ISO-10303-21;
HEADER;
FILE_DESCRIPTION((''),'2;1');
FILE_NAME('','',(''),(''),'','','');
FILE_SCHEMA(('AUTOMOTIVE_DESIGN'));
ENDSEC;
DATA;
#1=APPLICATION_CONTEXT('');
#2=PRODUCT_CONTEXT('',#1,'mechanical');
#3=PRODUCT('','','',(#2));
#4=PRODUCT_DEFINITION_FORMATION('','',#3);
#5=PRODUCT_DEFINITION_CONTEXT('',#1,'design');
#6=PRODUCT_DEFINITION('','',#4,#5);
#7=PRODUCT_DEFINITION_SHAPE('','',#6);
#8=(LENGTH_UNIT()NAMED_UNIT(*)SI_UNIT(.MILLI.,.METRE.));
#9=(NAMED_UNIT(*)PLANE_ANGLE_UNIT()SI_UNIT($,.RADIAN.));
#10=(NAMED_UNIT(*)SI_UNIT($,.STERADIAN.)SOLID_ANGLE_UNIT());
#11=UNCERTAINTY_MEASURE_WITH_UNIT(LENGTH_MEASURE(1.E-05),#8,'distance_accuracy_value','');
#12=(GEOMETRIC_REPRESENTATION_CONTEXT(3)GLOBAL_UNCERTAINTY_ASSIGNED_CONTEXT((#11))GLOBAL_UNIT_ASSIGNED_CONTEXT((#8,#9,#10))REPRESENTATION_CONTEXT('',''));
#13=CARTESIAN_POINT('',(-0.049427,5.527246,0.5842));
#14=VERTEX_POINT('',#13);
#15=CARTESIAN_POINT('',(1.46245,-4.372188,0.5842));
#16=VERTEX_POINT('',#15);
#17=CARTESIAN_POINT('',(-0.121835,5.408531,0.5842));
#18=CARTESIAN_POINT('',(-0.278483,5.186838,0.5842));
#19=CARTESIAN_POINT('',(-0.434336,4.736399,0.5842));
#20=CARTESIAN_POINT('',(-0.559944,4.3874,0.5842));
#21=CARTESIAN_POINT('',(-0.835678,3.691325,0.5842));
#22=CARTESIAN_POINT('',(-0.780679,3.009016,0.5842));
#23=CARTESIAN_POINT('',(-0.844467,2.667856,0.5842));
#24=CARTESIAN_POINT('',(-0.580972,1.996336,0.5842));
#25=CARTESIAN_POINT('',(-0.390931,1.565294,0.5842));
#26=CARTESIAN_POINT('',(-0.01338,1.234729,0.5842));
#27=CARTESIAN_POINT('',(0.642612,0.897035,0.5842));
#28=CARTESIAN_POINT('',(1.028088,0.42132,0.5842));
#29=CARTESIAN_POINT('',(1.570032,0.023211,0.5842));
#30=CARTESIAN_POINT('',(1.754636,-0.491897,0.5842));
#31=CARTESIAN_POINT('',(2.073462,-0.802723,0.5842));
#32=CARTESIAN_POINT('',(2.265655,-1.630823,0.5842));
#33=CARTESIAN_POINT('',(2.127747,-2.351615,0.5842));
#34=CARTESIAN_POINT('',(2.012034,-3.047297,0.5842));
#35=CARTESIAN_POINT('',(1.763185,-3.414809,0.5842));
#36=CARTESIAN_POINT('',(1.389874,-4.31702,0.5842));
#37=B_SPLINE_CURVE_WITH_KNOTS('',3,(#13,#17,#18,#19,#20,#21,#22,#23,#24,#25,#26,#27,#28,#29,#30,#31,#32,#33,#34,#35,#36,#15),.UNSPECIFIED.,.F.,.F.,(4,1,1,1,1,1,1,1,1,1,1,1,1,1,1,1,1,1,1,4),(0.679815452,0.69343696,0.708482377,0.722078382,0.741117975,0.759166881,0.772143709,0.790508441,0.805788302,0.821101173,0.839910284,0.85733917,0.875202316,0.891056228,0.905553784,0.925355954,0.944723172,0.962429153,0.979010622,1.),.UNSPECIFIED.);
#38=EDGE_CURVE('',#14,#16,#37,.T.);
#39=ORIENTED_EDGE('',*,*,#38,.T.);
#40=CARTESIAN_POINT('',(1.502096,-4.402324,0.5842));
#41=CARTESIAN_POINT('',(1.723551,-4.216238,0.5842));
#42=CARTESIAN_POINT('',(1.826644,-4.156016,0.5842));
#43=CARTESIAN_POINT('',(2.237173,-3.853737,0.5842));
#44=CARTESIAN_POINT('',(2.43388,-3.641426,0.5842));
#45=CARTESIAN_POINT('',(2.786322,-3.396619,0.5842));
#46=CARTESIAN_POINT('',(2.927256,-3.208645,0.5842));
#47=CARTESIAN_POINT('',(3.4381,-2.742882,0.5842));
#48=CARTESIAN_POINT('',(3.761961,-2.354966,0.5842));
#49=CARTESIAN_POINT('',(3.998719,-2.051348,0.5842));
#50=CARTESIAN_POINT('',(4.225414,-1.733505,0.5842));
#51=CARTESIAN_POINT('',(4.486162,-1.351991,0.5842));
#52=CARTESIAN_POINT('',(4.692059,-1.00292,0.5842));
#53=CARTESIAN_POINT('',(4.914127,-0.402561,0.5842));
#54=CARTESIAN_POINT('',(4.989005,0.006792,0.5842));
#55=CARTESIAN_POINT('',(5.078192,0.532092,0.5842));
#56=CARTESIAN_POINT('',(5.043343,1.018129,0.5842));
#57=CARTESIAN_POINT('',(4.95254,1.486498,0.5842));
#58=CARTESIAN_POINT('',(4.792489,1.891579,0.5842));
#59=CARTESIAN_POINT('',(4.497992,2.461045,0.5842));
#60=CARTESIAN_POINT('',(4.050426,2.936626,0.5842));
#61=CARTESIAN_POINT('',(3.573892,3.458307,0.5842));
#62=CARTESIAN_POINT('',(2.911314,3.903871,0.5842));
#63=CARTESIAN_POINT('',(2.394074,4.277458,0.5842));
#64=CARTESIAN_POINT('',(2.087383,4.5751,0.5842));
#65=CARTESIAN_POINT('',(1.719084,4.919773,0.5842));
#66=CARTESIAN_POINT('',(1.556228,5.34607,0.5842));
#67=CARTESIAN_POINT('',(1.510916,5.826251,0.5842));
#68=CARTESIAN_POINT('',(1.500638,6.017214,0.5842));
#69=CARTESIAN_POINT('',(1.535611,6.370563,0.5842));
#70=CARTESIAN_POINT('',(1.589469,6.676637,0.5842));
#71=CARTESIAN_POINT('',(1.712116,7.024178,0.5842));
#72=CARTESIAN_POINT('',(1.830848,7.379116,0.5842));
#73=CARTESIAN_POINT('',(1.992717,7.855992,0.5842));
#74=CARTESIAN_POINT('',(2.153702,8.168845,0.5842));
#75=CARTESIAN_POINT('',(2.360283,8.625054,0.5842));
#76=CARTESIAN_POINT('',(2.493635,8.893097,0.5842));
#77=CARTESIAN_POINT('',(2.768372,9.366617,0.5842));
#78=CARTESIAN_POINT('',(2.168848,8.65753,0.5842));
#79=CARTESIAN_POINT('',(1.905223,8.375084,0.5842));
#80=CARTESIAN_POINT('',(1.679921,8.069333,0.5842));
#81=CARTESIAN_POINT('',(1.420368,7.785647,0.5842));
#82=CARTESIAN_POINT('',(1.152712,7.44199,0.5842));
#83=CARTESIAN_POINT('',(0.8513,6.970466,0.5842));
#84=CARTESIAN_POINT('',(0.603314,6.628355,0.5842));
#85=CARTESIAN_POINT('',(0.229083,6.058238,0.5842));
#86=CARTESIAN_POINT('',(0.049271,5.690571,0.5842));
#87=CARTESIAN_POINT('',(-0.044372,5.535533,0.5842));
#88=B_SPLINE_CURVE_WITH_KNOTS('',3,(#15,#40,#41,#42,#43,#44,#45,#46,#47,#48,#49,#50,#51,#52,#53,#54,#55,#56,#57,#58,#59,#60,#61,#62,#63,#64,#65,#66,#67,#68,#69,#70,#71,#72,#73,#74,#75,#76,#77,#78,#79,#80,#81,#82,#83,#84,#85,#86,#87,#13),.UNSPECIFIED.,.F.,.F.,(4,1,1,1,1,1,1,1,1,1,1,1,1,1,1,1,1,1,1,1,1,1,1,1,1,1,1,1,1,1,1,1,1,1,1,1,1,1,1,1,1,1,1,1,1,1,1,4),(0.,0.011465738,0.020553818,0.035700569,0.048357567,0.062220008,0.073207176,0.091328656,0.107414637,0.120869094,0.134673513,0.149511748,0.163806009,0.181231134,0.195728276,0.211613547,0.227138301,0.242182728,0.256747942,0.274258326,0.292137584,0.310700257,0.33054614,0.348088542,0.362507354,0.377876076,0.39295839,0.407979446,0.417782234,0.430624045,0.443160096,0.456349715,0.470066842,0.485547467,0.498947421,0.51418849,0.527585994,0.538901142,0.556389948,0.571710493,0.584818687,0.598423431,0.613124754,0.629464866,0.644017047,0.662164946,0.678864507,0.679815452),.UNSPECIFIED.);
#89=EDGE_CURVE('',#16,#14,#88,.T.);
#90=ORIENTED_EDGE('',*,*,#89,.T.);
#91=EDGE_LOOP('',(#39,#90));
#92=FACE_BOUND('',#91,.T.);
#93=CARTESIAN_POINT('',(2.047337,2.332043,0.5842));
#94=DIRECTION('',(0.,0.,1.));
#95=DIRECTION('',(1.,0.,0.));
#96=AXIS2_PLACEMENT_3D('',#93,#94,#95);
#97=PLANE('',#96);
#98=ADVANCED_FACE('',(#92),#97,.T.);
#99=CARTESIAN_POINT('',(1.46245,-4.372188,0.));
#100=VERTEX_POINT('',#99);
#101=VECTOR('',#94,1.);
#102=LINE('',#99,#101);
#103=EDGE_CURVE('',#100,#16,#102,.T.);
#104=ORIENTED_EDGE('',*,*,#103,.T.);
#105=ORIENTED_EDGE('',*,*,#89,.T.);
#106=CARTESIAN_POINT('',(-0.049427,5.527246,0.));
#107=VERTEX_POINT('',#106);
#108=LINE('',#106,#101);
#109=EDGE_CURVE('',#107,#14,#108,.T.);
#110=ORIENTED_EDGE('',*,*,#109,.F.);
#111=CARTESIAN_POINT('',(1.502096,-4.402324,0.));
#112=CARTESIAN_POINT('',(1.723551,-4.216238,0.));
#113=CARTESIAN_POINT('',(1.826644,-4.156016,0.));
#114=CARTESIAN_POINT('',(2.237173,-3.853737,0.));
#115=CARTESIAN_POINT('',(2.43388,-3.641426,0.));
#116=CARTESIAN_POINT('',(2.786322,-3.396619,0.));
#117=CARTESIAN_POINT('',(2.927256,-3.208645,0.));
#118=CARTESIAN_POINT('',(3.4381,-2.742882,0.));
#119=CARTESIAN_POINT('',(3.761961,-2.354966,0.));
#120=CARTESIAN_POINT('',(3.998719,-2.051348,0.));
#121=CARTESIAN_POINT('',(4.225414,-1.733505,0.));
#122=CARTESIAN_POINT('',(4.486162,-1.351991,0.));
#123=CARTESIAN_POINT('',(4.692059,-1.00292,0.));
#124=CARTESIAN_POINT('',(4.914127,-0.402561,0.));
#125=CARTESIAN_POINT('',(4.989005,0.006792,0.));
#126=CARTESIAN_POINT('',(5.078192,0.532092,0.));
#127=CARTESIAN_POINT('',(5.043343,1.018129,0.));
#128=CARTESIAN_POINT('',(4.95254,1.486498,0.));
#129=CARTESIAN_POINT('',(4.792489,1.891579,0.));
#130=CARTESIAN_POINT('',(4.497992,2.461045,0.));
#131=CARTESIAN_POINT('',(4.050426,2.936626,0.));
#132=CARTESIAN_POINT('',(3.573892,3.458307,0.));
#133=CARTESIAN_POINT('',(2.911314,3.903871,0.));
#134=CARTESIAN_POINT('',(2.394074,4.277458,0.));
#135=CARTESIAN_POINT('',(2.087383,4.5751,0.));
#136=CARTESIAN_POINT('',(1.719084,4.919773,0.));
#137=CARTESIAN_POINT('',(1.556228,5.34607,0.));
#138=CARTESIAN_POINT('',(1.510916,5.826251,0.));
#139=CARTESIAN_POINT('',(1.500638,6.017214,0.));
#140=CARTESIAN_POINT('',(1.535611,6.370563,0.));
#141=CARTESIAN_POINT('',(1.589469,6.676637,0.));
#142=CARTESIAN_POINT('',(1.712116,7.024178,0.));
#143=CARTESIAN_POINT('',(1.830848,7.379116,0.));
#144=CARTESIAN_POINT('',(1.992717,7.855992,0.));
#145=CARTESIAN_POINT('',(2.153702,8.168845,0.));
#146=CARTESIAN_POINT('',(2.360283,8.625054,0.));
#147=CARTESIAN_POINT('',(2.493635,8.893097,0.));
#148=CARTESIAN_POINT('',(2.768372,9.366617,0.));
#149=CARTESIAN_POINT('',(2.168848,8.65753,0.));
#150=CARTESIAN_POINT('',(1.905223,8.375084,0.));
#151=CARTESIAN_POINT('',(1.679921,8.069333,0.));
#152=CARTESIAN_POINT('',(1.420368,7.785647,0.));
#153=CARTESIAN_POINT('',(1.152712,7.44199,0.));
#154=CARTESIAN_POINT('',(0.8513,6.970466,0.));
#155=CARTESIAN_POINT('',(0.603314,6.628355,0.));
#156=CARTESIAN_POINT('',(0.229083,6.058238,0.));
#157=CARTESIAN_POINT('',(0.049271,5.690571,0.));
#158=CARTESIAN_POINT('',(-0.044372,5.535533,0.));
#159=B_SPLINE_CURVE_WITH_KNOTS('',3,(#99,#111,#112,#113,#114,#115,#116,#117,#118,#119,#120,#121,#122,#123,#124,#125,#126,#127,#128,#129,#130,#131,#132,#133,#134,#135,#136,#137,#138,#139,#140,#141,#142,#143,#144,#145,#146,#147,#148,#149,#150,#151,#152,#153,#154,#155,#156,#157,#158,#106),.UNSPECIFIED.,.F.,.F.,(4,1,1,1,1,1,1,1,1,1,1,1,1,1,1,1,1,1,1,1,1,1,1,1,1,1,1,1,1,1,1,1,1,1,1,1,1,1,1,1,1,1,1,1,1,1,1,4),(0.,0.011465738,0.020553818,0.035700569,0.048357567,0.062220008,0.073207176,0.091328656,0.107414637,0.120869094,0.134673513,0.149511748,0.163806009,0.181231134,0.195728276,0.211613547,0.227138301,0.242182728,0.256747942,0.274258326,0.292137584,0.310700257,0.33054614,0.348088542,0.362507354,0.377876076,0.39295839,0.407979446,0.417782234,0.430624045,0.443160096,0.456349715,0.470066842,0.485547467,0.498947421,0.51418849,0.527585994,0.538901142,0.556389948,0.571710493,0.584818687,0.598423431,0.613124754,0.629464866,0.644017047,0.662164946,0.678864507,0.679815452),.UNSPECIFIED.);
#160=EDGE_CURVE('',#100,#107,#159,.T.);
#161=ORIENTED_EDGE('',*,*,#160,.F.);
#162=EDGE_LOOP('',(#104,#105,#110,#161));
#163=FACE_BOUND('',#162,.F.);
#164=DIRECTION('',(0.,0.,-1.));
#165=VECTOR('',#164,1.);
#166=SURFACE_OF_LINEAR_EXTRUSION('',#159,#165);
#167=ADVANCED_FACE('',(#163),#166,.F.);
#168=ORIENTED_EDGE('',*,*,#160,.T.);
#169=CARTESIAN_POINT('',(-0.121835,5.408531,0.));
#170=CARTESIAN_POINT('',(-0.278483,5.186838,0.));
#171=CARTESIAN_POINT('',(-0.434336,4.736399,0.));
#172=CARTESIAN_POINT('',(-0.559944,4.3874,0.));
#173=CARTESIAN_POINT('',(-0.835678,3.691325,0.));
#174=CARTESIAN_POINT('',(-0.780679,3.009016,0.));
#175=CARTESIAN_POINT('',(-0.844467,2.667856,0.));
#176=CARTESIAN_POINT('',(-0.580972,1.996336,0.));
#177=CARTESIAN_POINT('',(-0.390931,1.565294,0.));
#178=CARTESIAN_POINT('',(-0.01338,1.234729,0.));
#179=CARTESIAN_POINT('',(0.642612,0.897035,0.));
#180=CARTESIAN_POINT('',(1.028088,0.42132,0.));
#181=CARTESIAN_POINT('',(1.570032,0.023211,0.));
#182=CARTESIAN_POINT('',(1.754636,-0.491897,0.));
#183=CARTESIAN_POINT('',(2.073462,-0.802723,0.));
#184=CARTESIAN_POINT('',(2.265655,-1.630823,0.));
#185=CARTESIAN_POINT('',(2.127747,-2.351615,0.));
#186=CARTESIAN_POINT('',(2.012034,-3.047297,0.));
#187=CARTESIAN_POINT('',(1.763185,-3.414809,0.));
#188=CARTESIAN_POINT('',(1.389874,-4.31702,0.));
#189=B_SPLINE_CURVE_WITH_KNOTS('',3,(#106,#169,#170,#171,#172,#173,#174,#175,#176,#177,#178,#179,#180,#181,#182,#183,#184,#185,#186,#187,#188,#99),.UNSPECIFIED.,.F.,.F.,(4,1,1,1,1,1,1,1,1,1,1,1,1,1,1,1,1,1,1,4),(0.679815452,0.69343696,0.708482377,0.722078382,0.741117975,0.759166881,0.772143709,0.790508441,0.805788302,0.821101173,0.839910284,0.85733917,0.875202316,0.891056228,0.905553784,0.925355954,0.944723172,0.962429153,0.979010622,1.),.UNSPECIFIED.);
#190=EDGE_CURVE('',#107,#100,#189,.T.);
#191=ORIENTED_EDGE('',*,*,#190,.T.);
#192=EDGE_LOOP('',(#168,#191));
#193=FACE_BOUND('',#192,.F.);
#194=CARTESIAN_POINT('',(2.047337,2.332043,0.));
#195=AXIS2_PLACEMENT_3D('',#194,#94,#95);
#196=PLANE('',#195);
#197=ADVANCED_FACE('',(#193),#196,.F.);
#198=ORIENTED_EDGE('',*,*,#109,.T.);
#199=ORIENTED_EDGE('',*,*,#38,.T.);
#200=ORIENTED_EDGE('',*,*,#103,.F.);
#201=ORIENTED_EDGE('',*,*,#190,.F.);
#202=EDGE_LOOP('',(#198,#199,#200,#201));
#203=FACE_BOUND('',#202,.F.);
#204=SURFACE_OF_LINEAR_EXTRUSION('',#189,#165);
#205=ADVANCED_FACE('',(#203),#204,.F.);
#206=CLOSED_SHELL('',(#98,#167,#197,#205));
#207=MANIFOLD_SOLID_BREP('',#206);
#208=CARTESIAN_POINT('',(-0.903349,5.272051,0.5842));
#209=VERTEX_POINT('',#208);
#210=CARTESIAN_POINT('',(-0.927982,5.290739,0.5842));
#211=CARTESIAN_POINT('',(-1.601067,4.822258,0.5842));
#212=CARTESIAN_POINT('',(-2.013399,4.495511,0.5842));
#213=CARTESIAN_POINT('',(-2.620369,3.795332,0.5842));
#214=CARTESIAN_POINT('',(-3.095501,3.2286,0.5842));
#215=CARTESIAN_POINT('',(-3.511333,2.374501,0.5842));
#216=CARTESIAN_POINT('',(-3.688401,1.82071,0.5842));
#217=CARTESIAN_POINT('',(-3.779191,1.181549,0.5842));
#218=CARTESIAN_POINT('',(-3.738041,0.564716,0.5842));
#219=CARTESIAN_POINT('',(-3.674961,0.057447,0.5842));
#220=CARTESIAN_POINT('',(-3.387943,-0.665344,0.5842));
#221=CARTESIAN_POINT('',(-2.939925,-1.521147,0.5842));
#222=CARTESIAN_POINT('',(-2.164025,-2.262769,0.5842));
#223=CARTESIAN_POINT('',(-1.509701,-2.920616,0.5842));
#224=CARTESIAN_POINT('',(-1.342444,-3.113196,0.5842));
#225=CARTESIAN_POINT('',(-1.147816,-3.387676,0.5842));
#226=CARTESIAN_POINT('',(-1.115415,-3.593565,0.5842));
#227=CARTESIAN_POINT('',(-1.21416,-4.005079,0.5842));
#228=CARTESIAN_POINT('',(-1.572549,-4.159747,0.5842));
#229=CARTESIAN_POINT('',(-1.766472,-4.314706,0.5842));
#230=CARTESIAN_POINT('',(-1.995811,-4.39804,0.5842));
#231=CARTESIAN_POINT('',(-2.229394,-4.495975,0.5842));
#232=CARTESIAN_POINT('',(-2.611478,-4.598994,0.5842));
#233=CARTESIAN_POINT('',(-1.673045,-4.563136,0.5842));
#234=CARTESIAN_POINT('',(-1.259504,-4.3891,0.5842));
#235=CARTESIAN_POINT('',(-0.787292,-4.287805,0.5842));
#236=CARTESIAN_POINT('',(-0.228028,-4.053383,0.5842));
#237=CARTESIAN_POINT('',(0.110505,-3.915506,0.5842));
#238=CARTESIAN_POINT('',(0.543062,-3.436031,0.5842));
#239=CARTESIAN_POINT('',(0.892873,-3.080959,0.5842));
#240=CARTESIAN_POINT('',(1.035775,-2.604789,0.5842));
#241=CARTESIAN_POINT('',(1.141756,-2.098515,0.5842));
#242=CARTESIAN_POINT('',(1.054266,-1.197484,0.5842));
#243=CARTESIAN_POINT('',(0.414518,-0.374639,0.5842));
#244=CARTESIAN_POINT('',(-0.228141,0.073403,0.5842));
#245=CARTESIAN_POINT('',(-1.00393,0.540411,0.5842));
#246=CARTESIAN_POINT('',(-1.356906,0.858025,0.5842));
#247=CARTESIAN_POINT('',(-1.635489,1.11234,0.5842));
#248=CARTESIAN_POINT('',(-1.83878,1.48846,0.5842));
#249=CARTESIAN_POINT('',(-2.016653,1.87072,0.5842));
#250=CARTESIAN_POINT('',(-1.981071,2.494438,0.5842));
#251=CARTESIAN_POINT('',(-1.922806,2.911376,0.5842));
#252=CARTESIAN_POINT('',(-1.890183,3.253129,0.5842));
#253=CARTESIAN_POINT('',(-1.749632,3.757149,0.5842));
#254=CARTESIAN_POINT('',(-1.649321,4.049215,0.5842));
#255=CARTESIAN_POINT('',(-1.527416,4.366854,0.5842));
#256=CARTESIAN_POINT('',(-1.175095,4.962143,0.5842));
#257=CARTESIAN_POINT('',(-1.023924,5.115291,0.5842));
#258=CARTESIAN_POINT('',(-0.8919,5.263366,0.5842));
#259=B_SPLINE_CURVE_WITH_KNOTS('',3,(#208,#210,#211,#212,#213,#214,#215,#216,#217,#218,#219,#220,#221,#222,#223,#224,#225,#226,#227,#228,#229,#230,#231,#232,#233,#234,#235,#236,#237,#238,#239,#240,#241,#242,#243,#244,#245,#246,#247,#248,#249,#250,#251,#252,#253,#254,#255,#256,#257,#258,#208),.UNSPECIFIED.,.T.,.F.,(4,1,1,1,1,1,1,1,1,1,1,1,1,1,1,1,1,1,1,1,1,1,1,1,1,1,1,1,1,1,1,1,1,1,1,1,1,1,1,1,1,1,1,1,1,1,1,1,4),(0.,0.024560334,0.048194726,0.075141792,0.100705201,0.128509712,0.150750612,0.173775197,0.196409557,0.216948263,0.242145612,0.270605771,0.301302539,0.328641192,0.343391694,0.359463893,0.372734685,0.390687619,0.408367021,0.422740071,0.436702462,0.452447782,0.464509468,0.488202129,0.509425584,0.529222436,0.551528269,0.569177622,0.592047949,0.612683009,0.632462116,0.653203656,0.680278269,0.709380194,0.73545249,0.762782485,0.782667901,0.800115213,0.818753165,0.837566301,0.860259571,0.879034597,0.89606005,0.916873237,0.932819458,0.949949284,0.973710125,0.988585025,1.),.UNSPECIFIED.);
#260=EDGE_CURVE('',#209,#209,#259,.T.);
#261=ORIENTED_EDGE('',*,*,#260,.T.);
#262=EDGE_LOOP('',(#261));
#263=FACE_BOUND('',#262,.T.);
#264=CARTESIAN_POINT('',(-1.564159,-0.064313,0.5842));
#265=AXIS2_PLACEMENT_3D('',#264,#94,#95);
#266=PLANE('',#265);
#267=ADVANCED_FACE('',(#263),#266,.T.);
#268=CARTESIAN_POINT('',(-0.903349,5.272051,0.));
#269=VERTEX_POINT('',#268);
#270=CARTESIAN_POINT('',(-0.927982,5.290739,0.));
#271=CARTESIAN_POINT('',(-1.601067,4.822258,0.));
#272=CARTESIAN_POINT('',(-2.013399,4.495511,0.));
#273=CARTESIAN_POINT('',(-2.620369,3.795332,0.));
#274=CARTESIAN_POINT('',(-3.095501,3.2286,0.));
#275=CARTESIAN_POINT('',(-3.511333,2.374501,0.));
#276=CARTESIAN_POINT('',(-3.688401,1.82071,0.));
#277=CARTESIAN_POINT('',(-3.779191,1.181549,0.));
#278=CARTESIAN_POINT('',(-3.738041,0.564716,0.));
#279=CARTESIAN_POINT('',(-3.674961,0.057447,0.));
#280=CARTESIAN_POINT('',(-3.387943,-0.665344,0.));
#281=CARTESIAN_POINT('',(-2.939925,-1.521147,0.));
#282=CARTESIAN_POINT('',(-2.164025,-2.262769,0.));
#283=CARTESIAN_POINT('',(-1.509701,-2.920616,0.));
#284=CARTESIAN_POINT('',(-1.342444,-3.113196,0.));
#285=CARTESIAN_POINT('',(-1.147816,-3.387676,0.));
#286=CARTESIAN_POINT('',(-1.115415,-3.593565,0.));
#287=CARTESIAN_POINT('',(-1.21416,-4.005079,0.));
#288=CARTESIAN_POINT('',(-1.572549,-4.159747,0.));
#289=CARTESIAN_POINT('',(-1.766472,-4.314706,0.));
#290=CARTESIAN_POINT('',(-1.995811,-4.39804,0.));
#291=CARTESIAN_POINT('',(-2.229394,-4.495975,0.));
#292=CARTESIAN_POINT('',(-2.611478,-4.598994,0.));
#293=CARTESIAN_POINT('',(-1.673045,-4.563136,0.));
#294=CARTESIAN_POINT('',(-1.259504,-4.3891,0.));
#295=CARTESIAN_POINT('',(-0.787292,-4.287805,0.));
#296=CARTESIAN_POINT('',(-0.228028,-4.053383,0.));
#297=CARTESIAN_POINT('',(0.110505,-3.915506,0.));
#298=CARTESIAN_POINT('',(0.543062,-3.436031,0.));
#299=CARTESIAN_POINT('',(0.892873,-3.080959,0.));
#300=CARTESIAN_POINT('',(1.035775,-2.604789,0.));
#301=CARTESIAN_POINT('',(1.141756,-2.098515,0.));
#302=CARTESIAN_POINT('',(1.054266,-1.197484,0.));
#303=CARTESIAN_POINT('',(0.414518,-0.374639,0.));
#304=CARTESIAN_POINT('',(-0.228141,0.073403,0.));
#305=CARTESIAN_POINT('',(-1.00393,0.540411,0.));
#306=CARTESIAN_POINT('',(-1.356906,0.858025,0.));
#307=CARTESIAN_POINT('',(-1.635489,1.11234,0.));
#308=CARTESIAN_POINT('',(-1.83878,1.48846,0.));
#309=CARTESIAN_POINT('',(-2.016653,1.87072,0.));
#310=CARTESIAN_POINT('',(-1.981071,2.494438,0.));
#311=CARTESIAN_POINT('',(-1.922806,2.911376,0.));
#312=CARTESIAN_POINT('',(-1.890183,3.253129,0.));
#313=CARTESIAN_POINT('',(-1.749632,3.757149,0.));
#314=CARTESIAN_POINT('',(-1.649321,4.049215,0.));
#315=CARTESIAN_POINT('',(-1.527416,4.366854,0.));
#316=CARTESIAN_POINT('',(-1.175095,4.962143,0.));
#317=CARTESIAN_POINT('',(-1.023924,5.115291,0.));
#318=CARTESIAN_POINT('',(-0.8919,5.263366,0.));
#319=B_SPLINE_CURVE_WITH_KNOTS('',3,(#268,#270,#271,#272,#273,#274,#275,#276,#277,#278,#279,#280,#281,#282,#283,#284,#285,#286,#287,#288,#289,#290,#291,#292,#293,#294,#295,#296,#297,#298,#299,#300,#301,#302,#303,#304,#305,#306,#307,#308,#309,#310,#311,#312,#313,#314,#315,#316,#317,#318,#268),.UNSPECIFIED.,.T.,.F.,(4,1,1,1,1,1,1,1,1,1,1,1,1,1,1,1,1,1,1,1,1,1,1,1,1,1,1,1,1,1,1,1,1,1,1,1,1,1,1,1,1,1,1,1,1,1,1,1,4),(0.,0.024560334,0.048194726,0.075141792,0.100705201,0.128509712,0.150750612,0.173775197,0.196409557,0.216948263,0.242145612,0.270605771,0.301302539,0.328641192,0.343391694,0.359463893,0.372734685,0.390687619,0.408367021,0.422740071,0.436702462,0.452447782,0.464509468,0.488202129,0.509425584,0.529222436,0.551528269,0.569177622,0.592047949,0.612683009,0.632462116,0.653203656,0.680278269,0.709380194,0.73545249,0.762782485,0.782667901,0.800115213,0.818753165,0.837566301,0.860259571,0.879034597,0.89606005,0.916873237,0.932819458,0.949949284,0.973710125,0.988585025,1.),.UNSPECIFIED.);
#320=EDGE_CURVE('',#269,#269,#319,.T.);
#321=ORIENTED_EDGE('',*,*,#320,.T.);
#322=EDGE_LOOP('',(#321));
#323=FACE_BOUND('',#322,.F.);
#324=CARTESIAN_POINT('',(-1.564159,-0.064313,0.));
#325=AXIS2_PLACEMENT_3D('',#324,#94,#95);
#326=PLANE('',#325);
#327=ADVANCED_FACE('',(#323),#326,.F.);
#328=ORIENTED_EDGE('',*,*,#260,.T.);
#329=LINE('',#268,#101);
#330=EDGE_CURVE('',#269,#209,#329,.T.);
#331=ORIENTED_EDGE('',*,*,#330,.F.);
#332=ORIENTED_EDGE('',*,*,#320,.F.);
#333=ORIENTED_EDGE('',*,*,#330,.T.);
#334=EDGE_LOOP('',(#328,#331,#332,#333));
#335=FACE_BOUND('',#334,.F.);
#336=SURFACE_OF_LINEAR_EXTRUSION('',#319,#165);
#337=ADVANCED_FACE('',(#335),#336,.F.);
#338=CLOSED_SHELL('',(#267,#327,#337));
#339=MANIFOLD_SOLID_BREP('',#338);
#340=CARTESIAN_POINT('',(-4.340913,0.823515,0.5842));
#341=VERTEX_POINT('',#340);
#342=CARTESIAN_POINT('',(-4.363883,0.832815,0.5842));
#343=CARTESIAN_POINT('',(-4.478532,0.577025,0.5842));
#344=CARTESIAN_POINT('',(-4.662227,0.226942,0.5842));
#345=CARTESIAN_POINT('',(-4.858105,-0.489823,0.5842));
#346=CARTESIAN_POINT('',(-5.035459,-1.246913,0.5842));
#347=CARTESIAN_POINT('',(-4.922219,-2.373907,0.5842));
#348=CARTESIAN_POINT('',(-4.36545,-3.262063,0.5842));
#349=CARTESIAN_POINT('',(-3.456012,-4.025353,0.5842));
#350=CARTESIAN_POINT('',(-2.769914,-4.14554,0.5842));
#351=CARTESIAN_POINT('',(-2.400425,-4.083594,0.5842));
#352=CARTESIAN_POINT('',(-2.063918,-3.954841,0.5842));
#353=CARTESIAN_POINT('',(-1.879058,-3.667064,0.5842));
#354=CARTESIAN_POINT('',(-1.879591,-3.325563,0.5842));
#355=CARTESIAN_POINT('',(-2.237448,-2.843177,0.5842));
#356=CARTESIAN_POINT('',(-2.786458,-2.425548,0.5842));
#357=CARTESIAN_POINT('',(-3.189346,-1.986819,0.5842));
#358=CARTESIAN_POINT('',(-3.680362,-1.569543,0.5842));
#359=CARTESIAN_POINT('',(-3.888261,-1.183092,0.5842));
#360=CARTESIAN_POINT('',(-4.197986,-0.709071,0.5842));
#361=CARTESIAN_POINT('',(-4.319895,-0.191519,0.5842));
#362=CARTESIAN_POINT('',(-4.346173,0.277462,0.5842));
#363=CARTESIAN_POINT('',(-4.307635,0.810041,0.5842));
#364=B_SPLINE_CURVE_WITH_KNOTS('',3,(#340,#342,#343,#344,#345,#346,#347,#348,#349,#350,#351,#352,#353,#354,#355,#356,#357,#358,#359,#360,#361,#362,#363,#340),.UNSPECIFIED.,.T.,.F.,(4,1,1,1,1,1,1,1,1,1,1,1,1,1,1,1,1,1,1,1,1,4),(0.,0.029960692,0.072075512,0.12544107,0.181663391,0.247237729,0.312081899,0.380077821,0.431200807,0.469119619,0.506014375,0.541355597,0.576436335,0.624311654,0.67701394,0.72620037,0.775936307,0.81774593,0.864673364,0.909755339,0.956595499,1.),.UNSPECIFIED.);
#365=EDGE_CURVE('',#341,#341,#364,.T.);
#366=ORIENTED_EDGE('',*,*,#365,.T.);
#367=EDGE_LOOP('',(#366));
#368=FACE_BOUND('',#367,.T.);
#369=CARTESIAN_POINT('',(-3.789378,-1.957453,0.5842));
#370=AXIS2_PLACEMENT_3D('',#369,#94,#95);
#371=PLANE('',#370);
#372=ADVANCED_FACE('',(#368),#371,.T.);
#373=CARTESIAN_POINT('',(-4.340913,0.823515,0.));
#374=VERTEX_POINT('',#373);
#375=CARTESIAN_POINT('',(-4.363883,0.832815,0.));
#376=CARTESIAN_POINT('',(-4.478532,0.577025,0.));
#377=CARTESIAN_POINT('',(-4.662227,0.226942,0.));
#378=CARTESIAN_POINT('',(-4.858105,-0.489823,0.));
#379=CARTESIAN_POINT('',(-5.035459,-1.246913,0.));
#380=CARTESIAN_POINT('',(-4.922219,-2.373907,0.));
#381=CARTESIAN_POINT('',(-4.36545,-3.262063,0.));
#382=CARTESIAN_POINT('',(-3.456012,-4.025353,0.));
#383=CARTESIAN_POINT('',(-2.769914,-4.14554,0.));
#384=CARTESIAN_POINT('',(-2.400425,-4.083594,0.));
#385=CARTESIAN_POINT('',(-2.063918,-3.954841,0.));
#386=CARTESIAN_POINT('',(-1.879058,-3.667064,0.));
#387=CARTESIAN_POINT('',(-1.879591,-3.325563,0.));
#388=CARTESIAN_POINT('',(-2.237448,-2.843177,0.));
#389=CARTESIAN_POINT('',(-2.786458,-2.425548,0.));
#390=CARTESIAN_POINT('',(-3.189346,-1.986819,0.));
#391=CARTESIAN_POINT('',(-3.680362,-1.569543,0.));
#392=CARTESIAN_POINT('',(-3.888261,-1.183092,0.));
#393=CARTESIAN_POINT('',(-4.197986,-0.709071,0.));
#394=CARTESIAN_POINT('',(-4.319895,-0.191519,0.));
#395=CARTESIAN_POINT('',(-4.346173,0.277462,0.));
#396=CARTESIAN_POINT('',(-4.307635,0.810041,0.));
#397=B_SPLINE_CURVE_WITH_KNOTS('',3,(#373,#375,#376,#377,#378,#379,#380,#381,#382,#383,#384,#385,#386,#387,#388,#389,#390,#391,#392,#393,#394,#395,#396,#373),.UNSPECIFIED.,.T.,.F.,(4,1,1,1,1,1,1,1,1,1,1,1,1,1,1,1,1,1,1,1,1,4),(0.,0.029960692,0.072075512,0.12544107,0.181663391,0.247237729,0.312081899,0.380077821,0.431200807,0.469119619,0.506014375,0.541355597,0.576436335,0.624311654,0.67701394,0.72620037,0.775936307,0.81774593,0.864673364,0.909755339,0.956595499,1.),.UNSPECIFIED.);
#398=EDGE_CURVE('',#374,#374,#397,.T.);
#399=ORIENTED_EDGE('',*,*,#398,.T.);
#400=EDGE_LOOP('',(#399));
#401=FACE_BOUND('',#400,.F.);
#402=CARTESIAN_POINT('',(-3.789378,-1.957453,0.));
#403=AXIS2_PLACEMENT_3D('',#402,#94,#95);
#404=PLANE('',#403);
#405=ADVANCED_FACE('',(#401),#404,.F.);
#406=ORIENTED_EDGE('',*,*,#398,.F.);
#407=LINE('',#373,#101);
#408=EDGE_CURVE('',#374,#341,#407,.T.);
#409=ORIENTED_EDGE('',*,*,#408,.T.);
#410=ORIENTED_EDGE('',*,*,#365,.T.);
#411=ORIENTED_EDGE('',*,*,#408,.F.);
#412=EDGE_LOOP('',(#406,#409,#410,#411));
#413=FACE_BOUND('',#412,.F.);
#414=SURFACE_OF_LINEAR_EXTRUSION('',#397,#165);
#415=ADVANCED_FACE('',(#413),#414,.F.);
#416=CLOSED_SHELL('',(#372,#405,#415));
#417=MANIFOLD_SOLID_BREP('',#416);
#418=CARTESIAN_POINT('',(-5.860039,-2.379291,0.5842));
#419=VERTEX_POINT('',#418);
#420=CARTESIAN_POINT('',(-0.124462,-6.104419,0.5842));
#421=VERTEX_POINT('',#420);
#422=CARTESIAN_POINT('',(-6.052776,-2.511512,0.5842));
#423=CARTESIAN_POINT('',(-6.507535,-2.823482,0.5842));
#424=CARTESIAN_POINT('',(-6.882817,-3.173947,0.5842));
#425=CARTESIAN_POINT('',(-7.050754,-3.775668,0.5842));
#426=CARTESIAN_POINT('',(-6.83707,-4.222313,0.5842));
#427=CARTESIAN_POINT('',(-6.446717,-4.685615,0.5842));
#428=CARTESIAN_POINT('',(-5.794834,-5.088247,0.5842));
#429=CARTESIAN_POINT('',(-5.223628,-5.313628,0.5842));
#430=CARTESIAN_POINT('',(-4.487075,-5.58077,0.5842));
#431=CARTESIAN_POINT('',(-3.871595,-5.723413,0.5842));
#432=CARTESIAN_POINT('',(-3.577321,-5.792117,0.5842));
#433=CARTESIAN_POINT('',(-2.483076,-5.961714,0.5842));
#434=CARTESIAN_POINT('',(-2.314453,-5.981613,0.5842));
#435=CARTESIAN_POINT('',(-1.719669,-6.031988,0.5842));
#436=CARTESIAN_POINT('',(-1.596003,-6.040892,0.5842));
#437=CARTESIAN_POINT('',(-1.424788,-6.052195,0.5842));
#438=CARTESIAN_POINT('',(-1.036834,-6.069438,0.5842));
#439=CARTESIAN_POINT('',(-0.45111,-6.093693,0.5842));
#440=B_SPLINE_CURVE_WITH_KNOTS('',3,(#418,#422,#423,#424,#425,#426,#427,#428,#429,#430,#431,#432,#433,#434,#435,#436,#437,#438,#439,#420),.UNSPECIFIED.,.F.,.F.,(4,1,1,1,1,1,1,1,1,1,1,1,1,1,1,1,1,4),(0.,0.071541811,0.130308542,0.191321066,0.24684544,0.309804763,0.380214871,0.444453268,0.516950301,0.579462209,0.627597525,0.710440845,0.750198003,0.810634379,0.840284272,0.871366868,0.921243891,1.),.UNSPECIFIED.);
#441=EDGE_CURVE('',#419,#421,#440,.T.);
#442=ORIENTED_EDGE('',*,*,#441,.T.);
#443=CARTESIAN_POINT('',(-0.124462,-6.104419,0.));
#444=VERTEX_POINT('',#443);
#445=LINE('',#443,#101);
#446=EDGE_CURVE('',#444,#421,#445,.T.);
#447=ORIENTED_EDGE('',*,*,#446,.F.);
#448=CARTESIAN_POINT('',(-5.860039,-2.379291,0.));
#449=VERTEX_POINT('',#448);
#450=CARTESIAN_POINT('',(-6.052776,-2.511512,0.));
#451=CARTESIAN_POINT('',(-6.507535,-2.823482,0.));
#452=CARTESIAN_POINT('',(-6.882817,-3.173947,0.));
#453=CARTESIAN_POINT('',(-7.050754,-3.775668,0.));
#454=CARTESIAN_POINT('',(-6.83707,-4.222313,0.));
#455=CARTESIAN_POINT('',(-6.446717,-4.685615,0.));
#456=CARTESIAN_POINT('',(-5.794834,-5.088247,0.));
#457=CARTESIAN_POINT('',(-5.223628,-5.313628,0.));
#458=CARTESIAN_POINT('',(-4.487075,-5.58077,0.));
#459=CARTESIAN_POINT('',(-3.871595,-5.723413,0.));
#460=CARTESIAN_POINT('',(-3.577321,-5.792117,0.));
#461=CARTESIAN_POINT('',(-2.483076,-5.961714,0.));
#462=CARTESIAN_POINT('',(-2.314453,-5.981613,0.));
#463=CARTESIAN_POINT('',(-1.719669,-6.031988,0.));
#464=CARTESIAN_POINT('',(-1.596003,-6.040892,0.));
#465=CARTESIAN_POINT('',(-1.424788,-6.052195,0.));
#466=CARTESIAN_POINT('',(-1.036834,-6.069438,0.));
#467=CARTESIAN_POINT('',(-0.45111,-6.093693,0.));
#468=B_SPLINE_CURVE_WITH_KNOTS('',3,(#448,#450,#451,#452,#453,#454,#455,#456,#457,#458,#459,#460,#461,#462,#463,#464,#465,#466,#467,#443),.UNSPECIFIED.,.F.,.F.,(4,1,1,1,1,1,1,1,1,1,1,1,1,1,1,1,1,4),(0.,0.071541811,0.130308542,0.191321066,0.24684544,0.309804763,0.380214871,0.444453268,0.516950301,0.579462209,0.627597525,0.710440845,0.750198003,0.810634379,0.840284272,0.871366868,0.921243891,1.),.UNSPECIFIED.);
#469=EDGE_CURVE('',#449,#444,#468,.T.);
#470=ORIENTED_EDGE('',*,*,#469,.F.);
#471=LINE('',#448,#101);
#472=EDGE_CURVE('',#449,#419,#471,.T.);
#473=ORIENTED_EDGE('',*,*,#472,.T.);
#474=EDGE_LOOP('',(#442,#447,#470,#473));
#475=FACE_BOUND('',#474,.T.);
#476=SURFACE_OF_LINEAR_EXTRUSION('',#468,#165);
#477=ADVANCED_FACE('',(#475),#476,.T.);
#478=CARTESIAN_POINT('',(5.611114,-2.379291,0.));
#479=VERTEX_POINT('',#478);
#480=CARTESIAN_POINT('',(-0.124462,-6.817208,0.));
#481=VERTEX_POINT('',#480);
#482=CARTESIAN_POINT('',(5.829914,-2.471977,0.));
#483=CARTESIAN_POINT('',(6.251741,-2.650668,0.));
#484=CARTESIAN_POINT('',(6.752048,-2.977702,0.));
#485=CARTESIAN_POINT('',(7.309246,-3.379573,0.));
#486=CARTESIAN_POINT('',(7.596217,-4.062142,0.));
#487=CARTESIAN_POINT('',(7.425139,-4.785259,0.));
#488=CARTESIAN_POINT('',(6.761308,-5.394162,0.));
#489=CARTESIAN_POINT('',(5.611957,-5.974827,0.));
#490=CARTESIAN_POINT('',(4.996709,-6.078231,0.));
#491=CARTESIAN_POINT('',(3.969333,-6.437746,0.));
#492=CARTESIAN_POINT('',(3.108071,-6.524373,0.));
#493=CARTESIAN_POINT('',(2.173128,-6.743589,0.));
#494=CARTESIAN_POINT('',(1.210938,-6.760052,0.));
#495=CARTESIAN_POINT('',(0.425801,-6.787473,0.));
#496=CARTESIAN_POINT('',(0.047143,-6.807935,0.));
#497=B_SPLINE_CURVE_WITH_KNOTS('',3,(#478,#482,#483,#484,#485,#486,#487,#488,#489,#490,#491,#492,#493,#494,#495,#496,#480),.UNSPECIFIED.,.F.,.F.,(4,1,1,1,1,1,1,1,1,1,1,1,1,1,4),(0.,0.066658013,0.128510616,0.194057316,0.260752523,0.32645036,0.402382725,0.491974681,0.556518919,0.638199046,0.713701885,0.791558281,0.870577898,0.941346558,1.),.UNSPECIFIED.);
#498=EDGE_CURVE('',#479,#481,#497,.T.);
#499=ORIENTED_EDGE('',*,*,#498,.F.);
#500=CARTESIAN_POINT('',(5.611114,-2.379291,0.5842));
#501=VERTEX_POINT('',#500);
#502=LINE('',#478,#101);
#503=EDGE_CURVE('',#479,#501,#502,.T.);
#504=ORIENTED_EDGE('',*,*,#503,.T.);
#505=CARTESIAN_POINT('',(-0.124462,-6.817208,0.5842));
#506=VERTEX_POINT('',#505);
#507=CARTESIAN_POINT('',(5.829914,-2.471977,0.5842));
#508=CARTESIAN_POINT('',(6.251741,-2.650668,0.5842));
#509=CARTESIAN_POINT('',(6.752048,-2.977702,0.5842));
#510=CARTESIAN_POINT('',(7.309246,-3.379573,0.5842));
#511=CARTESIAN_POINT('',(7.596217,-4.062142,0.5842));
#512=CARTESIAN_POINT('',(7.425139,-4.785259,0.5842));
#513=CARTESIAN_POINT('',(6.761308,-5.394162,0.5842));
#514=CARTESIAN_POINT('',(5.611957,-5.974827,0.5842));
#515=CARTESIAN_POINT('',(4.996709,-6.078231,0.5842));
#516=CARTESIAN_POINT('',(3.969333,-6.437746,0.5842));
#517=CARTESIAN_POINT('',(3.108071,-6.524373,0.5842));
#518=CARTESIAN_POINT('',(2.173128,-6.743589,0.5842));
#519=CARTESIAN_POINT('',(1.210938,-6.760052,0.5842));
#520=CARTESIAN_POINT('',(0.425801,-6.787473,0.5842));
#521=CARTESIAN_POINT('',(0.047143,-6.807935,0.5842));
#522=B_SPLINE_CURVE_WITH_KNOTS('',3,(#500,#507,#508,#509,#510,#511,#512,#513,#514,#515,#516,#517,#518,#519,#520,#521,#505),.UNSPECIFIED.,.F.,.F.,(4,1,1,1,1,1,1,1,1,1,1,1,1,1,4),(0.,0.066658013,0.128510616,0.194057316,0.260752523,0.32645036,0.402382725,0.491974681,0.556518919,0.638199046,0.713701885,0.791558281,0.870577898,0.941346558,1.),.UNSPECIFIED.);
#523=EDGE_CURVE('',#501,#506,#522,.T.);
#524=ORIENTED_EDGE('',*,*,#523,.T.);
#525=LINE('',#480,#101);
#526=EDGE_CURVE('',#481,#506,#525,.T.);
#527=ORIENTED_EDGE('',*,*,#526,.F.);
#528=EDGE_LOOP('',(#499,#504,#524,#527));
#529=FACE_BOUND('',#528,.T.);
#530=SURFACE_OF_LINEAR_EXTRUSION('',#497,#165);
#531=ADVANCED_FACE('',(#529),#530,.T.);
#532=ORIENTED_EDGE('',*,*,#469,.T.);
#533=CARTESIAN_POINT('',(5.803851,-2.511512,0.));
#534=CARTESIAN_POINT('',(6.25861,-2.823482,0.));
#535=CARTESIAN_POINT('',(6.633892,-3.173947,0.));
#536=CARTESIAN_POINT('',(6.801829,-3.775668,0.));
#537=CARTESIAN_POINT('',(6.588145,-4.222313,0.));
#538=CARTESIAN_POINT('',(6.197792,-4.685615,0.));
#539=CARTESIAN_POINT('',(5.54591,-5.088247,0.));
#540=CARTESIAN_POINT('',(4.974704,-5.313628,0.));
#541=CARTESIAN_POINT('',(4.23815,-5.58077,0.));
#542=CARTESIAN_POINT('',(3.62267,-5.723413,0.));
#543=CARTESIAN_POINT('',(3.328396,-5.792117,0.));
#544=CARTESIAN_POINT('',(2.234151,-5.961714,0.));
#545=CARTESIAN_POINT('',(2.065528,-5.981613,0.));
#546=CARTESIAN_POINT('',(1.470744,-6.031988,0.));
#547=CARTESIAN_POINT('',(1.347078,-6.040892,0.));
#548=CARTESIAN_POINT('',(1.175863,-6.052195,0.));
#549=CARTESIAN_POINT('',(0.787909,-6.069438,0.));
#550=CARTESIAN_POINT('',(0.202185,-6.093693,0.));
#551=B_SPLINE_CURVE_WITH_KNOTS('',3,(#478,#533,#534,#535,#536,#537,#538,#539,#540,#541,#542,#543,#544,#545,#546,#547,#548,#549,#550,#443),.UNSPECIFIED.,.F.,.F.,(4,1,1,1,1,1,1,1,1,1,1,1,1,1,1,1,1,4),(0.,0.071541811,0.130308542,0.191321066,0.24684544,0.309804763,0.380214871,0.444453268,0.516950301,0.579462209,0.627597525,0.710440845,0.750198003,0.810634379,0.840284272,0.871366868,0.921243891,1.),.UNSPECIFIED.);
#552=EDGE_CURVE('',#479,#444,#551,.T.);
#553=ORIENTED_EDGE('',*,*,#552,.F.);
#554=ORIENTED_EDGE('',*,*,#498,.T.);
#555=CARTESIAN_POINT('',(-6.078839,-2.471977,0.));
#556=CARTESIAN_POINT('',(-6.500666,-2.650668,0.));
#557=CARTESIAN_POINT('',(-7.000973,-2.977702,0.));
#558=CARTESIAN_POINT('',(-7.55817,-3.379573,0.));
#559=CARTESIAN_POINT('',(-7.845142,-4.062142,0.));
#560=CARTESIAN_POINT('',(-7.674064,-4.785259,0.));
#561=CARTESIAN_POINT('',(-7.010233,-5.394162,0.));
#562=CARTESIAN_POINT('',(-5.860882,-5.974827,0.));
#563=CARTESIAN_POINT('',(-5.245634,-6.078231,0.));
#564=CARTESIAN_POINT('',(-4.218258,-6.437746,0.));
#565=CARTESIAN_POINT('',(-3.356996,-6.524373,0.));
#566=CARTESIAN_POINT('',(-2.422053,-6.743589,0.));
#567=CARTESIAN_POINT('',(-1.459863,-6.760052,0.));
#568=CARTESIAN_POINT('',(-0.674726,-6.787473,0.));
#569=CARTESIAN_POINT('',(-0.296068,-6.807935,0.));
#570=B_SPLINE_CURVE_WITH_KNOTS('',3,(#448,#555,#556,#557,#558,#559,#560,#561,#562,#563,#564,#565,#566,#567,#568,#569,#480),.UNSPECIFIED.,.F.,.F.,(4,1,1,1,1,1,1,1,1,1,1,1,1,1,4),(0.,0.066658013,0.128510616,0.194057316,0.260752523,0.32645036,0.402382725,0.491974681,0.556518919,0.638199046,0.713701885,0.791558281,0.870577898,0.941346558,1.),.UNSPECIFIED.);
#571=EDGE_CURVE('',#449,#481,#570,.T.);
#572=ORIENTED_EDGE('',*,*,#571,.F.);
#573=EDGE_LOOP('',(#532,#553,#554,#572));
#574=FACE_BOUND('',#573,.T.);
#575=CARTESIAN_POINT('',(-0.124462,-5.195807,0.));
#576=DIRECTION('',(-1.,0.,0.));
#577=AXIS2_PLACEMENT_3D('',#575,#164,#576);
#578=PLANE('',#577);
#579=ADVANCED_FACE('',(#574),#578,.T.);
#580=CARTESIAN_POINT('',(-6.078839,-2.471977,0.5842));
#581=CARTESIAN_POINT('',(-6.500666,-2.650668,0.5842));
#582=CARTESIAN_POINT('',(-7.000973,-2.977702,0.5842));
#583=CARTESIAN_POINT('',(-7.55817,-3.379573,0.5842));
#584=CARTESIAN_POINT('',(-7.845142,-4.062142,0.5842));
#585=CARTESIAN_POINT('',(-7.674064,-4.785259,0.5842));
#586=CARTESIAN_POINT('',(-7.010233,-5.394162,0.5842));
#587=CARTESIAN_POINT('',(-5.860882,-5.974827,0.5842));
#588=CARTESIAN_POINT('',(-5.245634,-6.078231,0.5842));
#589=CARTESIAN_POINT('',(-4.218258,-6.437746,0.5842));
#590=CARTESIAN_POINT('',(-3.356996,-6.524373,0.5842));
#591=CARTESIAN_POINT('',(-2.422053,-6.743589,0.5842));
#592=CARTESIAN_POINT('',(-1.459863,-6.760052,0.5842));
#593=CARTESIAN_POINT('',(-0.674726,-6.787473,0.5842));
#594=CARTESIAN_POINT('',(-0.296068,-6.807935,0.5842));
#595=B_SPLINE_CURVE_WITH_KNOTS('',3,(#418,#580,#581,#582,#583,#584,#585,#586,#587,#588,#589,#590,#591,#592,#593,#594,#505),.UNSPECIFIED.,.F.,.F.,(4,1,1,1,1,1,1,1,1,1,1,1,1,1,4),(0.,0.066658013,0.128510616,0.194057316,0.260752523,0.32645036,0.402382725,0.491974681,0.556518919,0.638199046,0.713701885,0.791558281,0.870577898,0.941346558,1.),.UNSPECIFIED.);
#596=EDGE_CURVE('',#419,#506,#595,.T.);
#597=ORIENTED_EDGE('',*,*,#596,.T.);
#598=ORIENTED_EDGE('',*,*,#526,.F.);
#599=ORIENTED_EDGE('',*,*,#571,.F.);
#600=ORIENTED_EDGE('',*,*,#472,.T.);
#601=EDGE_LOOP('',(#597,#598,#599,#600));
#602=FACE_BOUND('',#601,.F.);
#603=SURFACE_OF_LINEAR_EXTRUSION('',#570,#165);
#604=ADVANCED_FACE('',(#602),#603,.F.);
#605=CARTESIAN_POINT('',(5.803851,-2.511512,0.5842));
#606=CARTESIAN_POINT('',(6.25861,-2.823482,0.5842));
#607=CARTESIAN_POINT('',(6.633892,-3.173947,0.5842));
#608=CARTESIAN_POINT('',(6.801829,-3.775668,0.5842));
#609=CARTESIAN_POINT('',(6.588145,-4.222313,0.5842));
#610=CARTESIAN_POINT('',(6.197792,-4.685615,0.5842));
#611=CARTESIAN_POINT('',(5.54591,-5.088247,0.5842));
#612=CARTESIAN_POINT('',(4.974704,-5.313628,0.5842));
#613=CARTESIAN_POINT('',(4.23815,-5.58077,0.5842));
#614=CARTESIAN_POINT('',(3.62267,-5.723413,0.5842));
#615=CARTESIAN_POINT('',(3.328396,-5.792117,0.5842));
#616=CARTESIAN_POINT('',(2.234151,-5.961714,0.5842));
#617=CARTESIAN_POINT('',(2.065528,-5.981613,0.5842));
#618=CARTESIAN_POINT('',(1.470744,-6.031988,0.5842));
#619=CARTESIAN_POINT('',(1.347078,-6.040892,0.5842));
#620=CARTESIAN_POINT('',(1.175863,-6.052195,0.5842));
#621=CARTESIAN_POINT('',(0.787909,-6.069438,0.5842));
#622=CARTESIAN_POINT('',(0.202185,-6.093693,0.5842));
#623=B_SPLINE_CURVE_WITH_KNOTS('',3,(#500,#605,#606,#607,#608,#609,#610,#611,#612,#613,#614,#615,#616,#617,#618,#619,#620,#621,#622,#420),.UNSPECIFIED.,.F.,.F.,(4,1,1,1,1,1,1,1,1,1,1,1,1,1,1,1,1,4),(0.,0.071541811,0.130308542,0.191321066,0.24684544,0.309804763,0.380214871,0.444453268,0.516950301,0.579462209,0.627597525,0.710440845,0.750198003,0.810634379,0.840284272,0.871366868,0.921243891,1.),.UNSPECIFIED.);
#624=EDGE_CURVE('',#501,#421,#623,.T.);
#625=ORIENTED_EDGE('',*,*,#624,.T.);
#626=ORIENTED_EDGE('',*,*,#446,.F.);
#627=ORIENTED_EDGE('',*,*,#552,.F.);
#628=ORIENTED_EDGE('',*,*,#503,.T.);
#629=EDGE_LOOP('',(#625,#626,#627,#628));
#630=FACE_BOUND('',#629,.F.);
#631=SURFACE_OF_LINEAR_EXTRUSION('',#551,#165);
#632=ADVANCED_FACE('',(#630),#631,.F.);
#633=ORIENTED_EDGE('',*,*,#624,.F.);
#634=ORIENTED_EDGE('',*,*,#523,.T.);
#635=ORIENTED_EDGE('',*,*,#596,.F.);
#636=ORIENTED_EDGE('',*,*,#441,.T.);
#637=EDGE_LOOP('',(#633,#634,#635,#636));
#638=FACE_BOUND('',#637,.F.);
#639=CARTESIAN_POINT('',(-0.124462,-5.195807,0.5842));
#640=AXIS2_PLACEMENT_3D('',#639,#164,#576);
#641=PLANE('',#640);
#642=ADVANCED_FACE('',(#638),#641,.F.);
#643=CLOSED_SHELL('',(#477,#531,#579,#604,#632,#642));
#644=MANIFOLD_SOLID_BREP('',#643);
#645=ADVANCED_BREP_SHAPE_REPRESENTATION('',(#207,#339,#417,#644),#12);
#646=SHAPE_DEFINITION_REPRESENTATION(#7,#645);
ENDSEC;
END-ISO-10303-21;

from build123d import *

# Parameters (mm, degrees)
F1_DEPTH = 0.5842


with BuildPart() as f1:
    # F0 (on Top) → F1 (new body)
    with BuildSketch(Plane.XY):
        with BuildLine():
            add(Edge.make_bspline(
                [(-4.3409126811, 0.8235150017), (-4.3638831654, 0.8328154626), (-4.4785320566, 0.5770251955), (-4.6622274709, 0.2269415499), (-4.8581053313, -0.4898232788), (-5.0354593658, -1.2469129385), (-4.9222192867, -2.3739066689), (-4.3654501317, -3.2620627935), (-3.4560117167, -4.02535282), (-2.7699137962, -4.1455398343), (-2.4004253735, -4.0835943094), (-2.0639183025, -3.9548409023), (-1.8790579169, -3.6670637842), (-1.8795913256, -3.325562636), (-2.2374478718, -2.843176857), (-2.7864582925, -2.4255477872), (-3.1893458529, -1.9868189477), (-3.6803623412, -1.5695431559), (-3.8882612208, -1.18309249), (-4.1979864203, -0.7090708682), (-4.3198954975, -0.1915194674), (-4.3461730169, 0.2774615729), (-4.3076349978, 0.8100412852), (-4.3409126811, 0.8235150017)],
                knots=[0, 0, 0, 0, 0.029960692, 0.0720755119, 0.1254410697, 0.1816633906, 0.2472377289, 0.3120818992, 0.3800778207, 0.4312008069, 0.4691196187, 0.5060143746, 0.5413555971, 0.5764363354, 0.6243116539, 0.6770139401, 0.7262003703, 0.7759363067, 0.8177459305, 0.8646733635, 0.9097553394, 0.9565954987, 1, 1, 1, 1], degree=3))
        make_face()
    extrude(amount=F1_DEPTH)


with BuildPart() as f1b:
    # F0 (on Top) → F1, piece 2 (new body)
    with BuildSketch(Plane.XY):
        with BuildLine():
            add(Edge.make_bspline(
                [(-0.9033490205, 5.2720510866), (-0.9279823558, 5.2907388524), (-1.601067188, 4.8222579912), (-2.0133987526, 4.495511311), (-2.6203693973, 3.7953321275), (-3.0955012862, 3.2286000559), (-3.5113334289, 2.3745012416), (-3.6884009297, 1.8207103822), (-3.7791912725, 1.1815485297), (-3.7380409609, 0.5647163974), (-3.6749609254, 0.0574472654), (-3.3879425603, -0.6653436776), (-2.9399249124, -1.5211470384), (-2.1640246735, -2.2627692494), (-1.5097005527, -2.9206157649), (-1.3424440841, -3.1131961216), (-1.1478161327, -3.3876763119), (-1.1154145654, -3.5935645943), (-1.21416015, -4.0050790879), (-1.5725488375, -4.1597466188), (-1.766471688, -4.3147063638), (-1.9958105817, -4.3980403052), (-2.2293944508, -4.4959747287), (-2.6114781549, -4.5989941223), (-1.6730451577, -4.5631360498), (-1.2595041701, -4.3891000168), (-0.7872921269, -4.2878050682), (-0.2280275202, -4.0533826785), (0.1105048146, -3.9155064576), (0.5430619067, -3.4360310153), (0.8928727293, -3.0809587886), (1.0357752487, -2.6047892816), (1.1417555648, -2.0985146124), (1.0542657775, -1.1974842231), (0.4145184934, -0.3746388083), (-0.2281413252, 0.0734033036), (-1.0039304524, 0.5404110445), (-1.3569055763, 0.8580253942), (-1.6354892893, 1.112340462), (-1.8387799209, 1.4884599777), (-2.01665344, 1.8707203932), (-1.9810714704, 2.494437832), (-1.9228061153, 2.9113756773), (-1.8901832964, 3.253129347), (-1.7496316322, 3.7571486011), (-1.64932091, 4.0492154316), (-1.5274158439, 4.3668539259), (-1.1750950129, 4.9621427665), (-1.0239242979, 5.1152905075), (-0.8919001164, 5.2633655215), (-0.9033490205, 5.2720510866)],
                knots=[0, 0, 0, 0, 0.0245603338, 0.0481947265, 0.0751417918, 0.1007052008, 0.1285097117, 0.1507506118, 0.1737751972, 0.1964095567, 0.2169482626, 0.2421456121, 0.2706057713, 0.301302539, 0.3286411923, 0.3433916942, 0.3594638932, 0.3727346847, 0.3906876189, 0.4083670209, 0.4227400709, 0.4367024619, 0.4524477819, 0.464509468, 0.4882021287, 0.5094255836, 0.5292224362, 0.5515282692, 0.5691776219, 0.5920479487, 0.6126830091, 0.6324621162, 0.653203656, 0.6802782686, 0.7093801941, 0.7354524903, 0.7627824851, 0.7826679011, 0.8001152128, 0.8187531655, 0.8375663006, 0.8602595707, 0.879034597, 0.8960600502, 0.9168732374, 0.9328194582, 0.9499492842, 0.9737101245, 0.988585025, 1, 1, 1, 1], degree=3))
        make_face()
    extrude(amount=F1_DEPTH)


with BuildPart() as f1c:
    # F0 (on Top) → F1, piece 3 (new body)
    with BuildSketch(Plane.XY):
        with BuildLine():
            add(Edge.make_bspline(
                [(-0.0494266093, 5.5272457981), (-0.1218350109, 5.4085314828), (-0.278482645, 5.186838474), (-0.4343362878, 4.7363992233), (-0.5599437028, 4.3874003778), (-0.8356784365, 3.691325428), (-0.7806786781, 3.0090164508), (-0.8444665371, 2.6678563826), (-0.5809721487, 1.9963362907), (-0.3909314077, 1.5652937893), (-0.0133795377, 1.2347286799), (0.6426124518, 0.8970347753), (1.0280875762, 0.4213200711), (1.5700318355, 0.023211373), (1.7546364731, -0.4918969363), (2.073461996, -0.8027231166), (2.2656548038, -1.6308230398), (2.1277467217, -2.3516150221), (2.0120337094, -3.0472971545), (1.7631853402, -3.4148087736), (1.3898742318, -4.3170203821), (1.4624504838, -4.3721881229)],
                knots=[0.6798154523, 0.6798154523, 0.6798154523, 0.6798154523, 0.6934369603, 0.7084823768, 0.7220783824, 0.7411179752, 0.7591668807, 0.7721437093, 0.7905084414, 0.8057883023, 0.8211011729, 0.8399102841, 0.8573391705, 0.8752023157, 0.8910562275, 0.9055537836, 0.9253559543, 0.9447231724, 0.9624291529, 0.9790106218, 1, 1, 1, 1], degree=3))
            add(Edge.make_bspline(
                [(1.4624504838, -4.3721881229), (1.5020962664, -4.4023242652), (1.7235511679, -4.2162377946), (1.826643907, -4.1560159103), (2.2371734743, -3.8537370522), (2.4338796023, -3.6414263579), (2.7863222447, -3.3966190795), (2.9272559401, -3.2086453557), (3.4380997701, -2.7428824022), (3.7619606591, -2.3549656925), (3.9987188552, -2.0513475586), (4.2254136288, -1.7335050143), (4.4861622473, -1.3519910979), (4.6920591732, -1.0029199492), (4.9141267034, -0.4025614485), (4.9890051064, 0.0067921248), (5.0781916133, 0.5320916491), (5.043343058, 1.0181288643), (4.9525400934, 1.4864984154), (4.792488769, 1.8915793843), (4.4979916871, 2.4610446678), (4.0504256811, 2.9366261403), (3.5738916003, 3.4583073755), (2.9113141266, 3.9038707842), (2.3940735967, 4.2774584892), (2.0873825516, 4.5751001046), (1.7190843077, 4.9197729549), (1.5562276459, 5.3460703549), (1.5109164877, 5.8262505652), (1.5006377241, 6.0172135994), (1.5356111535, 6.3705628583), (1.5894694945, 6.6766368462), (1.7121155992, 7.0241783091), (1.8308484388, 7.3791162285), (1.9927173449, 7.855992333), (2.1537022094, 8.1688449506), (2.3602830801, 8.6250536068), (2.493635141, 8.8930968871), (2.7683719499, 9.3666169676), (2.1688480606, 8.6575300529), (1.9052232794, 8.3750839168), (1.6799210394, 8.069333157), (1.4203683935, 7.7856469672), (1.152712394, 7.4419900211), (0.8512999285, 6.9704658529), (0.6033137997, 6.6283553723), (0.2290828757, 6.0582380656), (0.0492706925, 5.6905711629), (-0.0443716324, 5.5355334844), (-0.0494266093, 5.5272457981)],
                knots=[0, 0, 0, 0, 0.0114657384, 0.0205538178, 0.035700569, 0.0483575671, 0.0622200075, 0.0732071756, 0.0913286559, 0.1074146374, 0.1208690944, 0.1346735128, 0.1495117479, 0.1638060087, 0.1812311337, 0.1957282763, 0.2116135468, 0.2271383012, 0.2421827278, 0.2567479425, 0.2742583259, 0.2921375838, 0.3107002569, 0.3305461403, 0.348088542, 0.3625073536, 0.3778760764, 0.3929583905, 0.4079794459, 0.4177822337, 0.4306240455, 0.4431600963, 0.4563497147, 0.470066842, 0.4855474674, 0.4989474215, 0.5141884901, 0.5275859938, 0.5389011418, 0.5563899476, 0.5717104931, 0.5848186875, 0.5984234306, 0.6131247541, 0.6294648663, 0.6440170465, 0.6621649464, 0.6788645073, 0.6798154523, 0.6798154523, 0.6798154523, 0.6798154523], degree=3))
        make_face()
    extrude(amount=F1_DEPTH)


with BuildPart() as f1d:
    # F0 (on Top) → F1, piece 4 (new body)
    with BuildSketch(Plane.XY):
        with BuildLine():
            add(Edge.make_bspline(
                [(-5.8600385673, -2.3792907596), (-6.0527758314, -2.5115119147), (-6.5075346665, -2.8234821356), (-6.8828172226, -3.1739471336), (-7.0507541362, -3.7756684964), (-6.8370696363, -4.2223132645), (-6.4467168512, -4.6856149853), (-5.794834382, -5.0882465882), (-5.2236284604, -5.3136284816), (-4.4870752267, -5.5807697737), (-3.8715953267, -5.7234133152), (-3.5773211605, -5.7921165394), (-2.4830761417, -5.9617137095), (-2.3144532073, -5.9816128357), (-1.7196691849, -6.0319875708), (-1.5960028503, -6.0408920355), (-1.4247877109, -6.0521947677), (-1.0368340555, -6.0694378416), (-0.451109519, -6.093693155), (-0.1244624145, -6.1044190079)],
                knots=[0, 0, 0, 0, 0.0715418106, 0.1303085415, 0.1913210664, 0.2468454398, 0.3098047629, 0.3802148709, 0.4444532684, 0.5169503011, 0.5794622094, 0.6275975246, 0.7104408454, 0.7501980031, 0.8106343792, 0.8402842717, 0.8713668679, 0.9212438911, 1, 1, 1, 1], degree=3))
            add(Edge.make_bspline(
                [(-5.8600385673, -2.3792907596), (-6.0788389095, -2.4719771325), (-6.5006661689, -2.650668072), (-7.0009732214, -2.9777023027), (-7.5581703969, -3.3795728437), (-7.8451419065, -4.0621419502), (-7.6740638103, -4.7852590686), (-7.0102329455, -5.394161721), (-5.860881788, -5.9748267909), (-5.2456340881, -6.0782309187), (-4.2182575516, -6.4377462844), (-3.3569956627, -6.5243728035), (-2.4220530145, -6.7435891806), (-1.4598632785, -6.7600518978), (-0.6747261487, -6.7874728787), (-0.2960682565, -6.8079348675), (-0.1244624145, -6.8172081374)],
                knots=[0, 0, 0, 0, 0.0666580125, 0.128510616, 0.1940573158, 0.2607525228, 0.3264503603, 0.4023827252, 0.4919746812, 0.5565189192, 0.6381990459, 0.7137018849, 0.7915582814, 0.8705778977, 0.9413465577, 1, 1, 1, 1], degree=3))
            add(Edge.make_bspline(
                [(5.6111137383, -2.3792907596), (5.8299140804, -2.4719771325), (6.2517413398, -2.650668072), (6.7520483923, -2.9777023027), (7.3092455678, -3.3795728437), (7.5962170774, -4.0621419502), (7.4251389812, -4.7852590686), (6.7613081164, -5.394161721), (5.6119569589, -5.9748267909), (4.996709259, -6.0782309187), (3.9693327225, -6.4377462844), (3.1080708336, -6.5243728035), (2.1731281855, -6.7435891806), (1.2109384494, -6.7600518978), (0.4258013196, -6.7874728787), (0.0471434275, -6.8079348675), (-0.1244624145, -6.8172081374)],
                knots=[0, 0, 0, 0, 0.0666580125, 0.128510616, 0.1940573158, 0.2607525228, 0.3264503603, 0.4023827252, 0.4919746812, 0.5565189192, 0.6381990459, 0.7137018849, 0.7915582814, 0.8705778977, 0.9413465577, 1, 1, 1, 1], degree=3))
            add(Edge.make_bspline(
                [(5.6111137383, -2.3792907596), (5.8038510023, -2.5115119147), (6.2586098374, -2.8234821356), (6.6338923935, -3.1739471336), (6.8018293071, -3.7756684964), (6.5881448072, -4.2223132645), (6.1977920222, -4.6856149853), (5.5459095529, -5.0882465882), (4.9747036313, -5.3136284816), (4.2381503976, -5.5807697737), (3.6226704976, -5.7234133152), (3.3283963315, -5.7921165394), (2.2341513126, -5.9617137095), (2.0655283782, -5.9816128357), (1.4707443559, -6.0319875708), (1.3470780212, -6.0408920355), (1.1758628818, -6.0521947677), (0.7879092265, -6.0694378416), (0.2021846899, -6.093693155), (-0.1244624145, -6.1044190079)],
                knots=[0, 0, 0, 0, 0.0715418106, 0.1303085415, 0.1913210664, 0.2468454398, 0.3098047629, 0.3802148709, 0.4444532684, 0.5169503011, 0.5794622094, 0.6275975246, 0.7104408454, 0.7501980031, 0.8106343792, 0.8402842717, 0.8713668679, 0.9212438911, 1, 1, 1, 1], degree=3))
        make_face()
    extrude(amount=F1_DEPTH)


solid = Compound([f1.part, f1b.part, f1c.part, f1d.part])
